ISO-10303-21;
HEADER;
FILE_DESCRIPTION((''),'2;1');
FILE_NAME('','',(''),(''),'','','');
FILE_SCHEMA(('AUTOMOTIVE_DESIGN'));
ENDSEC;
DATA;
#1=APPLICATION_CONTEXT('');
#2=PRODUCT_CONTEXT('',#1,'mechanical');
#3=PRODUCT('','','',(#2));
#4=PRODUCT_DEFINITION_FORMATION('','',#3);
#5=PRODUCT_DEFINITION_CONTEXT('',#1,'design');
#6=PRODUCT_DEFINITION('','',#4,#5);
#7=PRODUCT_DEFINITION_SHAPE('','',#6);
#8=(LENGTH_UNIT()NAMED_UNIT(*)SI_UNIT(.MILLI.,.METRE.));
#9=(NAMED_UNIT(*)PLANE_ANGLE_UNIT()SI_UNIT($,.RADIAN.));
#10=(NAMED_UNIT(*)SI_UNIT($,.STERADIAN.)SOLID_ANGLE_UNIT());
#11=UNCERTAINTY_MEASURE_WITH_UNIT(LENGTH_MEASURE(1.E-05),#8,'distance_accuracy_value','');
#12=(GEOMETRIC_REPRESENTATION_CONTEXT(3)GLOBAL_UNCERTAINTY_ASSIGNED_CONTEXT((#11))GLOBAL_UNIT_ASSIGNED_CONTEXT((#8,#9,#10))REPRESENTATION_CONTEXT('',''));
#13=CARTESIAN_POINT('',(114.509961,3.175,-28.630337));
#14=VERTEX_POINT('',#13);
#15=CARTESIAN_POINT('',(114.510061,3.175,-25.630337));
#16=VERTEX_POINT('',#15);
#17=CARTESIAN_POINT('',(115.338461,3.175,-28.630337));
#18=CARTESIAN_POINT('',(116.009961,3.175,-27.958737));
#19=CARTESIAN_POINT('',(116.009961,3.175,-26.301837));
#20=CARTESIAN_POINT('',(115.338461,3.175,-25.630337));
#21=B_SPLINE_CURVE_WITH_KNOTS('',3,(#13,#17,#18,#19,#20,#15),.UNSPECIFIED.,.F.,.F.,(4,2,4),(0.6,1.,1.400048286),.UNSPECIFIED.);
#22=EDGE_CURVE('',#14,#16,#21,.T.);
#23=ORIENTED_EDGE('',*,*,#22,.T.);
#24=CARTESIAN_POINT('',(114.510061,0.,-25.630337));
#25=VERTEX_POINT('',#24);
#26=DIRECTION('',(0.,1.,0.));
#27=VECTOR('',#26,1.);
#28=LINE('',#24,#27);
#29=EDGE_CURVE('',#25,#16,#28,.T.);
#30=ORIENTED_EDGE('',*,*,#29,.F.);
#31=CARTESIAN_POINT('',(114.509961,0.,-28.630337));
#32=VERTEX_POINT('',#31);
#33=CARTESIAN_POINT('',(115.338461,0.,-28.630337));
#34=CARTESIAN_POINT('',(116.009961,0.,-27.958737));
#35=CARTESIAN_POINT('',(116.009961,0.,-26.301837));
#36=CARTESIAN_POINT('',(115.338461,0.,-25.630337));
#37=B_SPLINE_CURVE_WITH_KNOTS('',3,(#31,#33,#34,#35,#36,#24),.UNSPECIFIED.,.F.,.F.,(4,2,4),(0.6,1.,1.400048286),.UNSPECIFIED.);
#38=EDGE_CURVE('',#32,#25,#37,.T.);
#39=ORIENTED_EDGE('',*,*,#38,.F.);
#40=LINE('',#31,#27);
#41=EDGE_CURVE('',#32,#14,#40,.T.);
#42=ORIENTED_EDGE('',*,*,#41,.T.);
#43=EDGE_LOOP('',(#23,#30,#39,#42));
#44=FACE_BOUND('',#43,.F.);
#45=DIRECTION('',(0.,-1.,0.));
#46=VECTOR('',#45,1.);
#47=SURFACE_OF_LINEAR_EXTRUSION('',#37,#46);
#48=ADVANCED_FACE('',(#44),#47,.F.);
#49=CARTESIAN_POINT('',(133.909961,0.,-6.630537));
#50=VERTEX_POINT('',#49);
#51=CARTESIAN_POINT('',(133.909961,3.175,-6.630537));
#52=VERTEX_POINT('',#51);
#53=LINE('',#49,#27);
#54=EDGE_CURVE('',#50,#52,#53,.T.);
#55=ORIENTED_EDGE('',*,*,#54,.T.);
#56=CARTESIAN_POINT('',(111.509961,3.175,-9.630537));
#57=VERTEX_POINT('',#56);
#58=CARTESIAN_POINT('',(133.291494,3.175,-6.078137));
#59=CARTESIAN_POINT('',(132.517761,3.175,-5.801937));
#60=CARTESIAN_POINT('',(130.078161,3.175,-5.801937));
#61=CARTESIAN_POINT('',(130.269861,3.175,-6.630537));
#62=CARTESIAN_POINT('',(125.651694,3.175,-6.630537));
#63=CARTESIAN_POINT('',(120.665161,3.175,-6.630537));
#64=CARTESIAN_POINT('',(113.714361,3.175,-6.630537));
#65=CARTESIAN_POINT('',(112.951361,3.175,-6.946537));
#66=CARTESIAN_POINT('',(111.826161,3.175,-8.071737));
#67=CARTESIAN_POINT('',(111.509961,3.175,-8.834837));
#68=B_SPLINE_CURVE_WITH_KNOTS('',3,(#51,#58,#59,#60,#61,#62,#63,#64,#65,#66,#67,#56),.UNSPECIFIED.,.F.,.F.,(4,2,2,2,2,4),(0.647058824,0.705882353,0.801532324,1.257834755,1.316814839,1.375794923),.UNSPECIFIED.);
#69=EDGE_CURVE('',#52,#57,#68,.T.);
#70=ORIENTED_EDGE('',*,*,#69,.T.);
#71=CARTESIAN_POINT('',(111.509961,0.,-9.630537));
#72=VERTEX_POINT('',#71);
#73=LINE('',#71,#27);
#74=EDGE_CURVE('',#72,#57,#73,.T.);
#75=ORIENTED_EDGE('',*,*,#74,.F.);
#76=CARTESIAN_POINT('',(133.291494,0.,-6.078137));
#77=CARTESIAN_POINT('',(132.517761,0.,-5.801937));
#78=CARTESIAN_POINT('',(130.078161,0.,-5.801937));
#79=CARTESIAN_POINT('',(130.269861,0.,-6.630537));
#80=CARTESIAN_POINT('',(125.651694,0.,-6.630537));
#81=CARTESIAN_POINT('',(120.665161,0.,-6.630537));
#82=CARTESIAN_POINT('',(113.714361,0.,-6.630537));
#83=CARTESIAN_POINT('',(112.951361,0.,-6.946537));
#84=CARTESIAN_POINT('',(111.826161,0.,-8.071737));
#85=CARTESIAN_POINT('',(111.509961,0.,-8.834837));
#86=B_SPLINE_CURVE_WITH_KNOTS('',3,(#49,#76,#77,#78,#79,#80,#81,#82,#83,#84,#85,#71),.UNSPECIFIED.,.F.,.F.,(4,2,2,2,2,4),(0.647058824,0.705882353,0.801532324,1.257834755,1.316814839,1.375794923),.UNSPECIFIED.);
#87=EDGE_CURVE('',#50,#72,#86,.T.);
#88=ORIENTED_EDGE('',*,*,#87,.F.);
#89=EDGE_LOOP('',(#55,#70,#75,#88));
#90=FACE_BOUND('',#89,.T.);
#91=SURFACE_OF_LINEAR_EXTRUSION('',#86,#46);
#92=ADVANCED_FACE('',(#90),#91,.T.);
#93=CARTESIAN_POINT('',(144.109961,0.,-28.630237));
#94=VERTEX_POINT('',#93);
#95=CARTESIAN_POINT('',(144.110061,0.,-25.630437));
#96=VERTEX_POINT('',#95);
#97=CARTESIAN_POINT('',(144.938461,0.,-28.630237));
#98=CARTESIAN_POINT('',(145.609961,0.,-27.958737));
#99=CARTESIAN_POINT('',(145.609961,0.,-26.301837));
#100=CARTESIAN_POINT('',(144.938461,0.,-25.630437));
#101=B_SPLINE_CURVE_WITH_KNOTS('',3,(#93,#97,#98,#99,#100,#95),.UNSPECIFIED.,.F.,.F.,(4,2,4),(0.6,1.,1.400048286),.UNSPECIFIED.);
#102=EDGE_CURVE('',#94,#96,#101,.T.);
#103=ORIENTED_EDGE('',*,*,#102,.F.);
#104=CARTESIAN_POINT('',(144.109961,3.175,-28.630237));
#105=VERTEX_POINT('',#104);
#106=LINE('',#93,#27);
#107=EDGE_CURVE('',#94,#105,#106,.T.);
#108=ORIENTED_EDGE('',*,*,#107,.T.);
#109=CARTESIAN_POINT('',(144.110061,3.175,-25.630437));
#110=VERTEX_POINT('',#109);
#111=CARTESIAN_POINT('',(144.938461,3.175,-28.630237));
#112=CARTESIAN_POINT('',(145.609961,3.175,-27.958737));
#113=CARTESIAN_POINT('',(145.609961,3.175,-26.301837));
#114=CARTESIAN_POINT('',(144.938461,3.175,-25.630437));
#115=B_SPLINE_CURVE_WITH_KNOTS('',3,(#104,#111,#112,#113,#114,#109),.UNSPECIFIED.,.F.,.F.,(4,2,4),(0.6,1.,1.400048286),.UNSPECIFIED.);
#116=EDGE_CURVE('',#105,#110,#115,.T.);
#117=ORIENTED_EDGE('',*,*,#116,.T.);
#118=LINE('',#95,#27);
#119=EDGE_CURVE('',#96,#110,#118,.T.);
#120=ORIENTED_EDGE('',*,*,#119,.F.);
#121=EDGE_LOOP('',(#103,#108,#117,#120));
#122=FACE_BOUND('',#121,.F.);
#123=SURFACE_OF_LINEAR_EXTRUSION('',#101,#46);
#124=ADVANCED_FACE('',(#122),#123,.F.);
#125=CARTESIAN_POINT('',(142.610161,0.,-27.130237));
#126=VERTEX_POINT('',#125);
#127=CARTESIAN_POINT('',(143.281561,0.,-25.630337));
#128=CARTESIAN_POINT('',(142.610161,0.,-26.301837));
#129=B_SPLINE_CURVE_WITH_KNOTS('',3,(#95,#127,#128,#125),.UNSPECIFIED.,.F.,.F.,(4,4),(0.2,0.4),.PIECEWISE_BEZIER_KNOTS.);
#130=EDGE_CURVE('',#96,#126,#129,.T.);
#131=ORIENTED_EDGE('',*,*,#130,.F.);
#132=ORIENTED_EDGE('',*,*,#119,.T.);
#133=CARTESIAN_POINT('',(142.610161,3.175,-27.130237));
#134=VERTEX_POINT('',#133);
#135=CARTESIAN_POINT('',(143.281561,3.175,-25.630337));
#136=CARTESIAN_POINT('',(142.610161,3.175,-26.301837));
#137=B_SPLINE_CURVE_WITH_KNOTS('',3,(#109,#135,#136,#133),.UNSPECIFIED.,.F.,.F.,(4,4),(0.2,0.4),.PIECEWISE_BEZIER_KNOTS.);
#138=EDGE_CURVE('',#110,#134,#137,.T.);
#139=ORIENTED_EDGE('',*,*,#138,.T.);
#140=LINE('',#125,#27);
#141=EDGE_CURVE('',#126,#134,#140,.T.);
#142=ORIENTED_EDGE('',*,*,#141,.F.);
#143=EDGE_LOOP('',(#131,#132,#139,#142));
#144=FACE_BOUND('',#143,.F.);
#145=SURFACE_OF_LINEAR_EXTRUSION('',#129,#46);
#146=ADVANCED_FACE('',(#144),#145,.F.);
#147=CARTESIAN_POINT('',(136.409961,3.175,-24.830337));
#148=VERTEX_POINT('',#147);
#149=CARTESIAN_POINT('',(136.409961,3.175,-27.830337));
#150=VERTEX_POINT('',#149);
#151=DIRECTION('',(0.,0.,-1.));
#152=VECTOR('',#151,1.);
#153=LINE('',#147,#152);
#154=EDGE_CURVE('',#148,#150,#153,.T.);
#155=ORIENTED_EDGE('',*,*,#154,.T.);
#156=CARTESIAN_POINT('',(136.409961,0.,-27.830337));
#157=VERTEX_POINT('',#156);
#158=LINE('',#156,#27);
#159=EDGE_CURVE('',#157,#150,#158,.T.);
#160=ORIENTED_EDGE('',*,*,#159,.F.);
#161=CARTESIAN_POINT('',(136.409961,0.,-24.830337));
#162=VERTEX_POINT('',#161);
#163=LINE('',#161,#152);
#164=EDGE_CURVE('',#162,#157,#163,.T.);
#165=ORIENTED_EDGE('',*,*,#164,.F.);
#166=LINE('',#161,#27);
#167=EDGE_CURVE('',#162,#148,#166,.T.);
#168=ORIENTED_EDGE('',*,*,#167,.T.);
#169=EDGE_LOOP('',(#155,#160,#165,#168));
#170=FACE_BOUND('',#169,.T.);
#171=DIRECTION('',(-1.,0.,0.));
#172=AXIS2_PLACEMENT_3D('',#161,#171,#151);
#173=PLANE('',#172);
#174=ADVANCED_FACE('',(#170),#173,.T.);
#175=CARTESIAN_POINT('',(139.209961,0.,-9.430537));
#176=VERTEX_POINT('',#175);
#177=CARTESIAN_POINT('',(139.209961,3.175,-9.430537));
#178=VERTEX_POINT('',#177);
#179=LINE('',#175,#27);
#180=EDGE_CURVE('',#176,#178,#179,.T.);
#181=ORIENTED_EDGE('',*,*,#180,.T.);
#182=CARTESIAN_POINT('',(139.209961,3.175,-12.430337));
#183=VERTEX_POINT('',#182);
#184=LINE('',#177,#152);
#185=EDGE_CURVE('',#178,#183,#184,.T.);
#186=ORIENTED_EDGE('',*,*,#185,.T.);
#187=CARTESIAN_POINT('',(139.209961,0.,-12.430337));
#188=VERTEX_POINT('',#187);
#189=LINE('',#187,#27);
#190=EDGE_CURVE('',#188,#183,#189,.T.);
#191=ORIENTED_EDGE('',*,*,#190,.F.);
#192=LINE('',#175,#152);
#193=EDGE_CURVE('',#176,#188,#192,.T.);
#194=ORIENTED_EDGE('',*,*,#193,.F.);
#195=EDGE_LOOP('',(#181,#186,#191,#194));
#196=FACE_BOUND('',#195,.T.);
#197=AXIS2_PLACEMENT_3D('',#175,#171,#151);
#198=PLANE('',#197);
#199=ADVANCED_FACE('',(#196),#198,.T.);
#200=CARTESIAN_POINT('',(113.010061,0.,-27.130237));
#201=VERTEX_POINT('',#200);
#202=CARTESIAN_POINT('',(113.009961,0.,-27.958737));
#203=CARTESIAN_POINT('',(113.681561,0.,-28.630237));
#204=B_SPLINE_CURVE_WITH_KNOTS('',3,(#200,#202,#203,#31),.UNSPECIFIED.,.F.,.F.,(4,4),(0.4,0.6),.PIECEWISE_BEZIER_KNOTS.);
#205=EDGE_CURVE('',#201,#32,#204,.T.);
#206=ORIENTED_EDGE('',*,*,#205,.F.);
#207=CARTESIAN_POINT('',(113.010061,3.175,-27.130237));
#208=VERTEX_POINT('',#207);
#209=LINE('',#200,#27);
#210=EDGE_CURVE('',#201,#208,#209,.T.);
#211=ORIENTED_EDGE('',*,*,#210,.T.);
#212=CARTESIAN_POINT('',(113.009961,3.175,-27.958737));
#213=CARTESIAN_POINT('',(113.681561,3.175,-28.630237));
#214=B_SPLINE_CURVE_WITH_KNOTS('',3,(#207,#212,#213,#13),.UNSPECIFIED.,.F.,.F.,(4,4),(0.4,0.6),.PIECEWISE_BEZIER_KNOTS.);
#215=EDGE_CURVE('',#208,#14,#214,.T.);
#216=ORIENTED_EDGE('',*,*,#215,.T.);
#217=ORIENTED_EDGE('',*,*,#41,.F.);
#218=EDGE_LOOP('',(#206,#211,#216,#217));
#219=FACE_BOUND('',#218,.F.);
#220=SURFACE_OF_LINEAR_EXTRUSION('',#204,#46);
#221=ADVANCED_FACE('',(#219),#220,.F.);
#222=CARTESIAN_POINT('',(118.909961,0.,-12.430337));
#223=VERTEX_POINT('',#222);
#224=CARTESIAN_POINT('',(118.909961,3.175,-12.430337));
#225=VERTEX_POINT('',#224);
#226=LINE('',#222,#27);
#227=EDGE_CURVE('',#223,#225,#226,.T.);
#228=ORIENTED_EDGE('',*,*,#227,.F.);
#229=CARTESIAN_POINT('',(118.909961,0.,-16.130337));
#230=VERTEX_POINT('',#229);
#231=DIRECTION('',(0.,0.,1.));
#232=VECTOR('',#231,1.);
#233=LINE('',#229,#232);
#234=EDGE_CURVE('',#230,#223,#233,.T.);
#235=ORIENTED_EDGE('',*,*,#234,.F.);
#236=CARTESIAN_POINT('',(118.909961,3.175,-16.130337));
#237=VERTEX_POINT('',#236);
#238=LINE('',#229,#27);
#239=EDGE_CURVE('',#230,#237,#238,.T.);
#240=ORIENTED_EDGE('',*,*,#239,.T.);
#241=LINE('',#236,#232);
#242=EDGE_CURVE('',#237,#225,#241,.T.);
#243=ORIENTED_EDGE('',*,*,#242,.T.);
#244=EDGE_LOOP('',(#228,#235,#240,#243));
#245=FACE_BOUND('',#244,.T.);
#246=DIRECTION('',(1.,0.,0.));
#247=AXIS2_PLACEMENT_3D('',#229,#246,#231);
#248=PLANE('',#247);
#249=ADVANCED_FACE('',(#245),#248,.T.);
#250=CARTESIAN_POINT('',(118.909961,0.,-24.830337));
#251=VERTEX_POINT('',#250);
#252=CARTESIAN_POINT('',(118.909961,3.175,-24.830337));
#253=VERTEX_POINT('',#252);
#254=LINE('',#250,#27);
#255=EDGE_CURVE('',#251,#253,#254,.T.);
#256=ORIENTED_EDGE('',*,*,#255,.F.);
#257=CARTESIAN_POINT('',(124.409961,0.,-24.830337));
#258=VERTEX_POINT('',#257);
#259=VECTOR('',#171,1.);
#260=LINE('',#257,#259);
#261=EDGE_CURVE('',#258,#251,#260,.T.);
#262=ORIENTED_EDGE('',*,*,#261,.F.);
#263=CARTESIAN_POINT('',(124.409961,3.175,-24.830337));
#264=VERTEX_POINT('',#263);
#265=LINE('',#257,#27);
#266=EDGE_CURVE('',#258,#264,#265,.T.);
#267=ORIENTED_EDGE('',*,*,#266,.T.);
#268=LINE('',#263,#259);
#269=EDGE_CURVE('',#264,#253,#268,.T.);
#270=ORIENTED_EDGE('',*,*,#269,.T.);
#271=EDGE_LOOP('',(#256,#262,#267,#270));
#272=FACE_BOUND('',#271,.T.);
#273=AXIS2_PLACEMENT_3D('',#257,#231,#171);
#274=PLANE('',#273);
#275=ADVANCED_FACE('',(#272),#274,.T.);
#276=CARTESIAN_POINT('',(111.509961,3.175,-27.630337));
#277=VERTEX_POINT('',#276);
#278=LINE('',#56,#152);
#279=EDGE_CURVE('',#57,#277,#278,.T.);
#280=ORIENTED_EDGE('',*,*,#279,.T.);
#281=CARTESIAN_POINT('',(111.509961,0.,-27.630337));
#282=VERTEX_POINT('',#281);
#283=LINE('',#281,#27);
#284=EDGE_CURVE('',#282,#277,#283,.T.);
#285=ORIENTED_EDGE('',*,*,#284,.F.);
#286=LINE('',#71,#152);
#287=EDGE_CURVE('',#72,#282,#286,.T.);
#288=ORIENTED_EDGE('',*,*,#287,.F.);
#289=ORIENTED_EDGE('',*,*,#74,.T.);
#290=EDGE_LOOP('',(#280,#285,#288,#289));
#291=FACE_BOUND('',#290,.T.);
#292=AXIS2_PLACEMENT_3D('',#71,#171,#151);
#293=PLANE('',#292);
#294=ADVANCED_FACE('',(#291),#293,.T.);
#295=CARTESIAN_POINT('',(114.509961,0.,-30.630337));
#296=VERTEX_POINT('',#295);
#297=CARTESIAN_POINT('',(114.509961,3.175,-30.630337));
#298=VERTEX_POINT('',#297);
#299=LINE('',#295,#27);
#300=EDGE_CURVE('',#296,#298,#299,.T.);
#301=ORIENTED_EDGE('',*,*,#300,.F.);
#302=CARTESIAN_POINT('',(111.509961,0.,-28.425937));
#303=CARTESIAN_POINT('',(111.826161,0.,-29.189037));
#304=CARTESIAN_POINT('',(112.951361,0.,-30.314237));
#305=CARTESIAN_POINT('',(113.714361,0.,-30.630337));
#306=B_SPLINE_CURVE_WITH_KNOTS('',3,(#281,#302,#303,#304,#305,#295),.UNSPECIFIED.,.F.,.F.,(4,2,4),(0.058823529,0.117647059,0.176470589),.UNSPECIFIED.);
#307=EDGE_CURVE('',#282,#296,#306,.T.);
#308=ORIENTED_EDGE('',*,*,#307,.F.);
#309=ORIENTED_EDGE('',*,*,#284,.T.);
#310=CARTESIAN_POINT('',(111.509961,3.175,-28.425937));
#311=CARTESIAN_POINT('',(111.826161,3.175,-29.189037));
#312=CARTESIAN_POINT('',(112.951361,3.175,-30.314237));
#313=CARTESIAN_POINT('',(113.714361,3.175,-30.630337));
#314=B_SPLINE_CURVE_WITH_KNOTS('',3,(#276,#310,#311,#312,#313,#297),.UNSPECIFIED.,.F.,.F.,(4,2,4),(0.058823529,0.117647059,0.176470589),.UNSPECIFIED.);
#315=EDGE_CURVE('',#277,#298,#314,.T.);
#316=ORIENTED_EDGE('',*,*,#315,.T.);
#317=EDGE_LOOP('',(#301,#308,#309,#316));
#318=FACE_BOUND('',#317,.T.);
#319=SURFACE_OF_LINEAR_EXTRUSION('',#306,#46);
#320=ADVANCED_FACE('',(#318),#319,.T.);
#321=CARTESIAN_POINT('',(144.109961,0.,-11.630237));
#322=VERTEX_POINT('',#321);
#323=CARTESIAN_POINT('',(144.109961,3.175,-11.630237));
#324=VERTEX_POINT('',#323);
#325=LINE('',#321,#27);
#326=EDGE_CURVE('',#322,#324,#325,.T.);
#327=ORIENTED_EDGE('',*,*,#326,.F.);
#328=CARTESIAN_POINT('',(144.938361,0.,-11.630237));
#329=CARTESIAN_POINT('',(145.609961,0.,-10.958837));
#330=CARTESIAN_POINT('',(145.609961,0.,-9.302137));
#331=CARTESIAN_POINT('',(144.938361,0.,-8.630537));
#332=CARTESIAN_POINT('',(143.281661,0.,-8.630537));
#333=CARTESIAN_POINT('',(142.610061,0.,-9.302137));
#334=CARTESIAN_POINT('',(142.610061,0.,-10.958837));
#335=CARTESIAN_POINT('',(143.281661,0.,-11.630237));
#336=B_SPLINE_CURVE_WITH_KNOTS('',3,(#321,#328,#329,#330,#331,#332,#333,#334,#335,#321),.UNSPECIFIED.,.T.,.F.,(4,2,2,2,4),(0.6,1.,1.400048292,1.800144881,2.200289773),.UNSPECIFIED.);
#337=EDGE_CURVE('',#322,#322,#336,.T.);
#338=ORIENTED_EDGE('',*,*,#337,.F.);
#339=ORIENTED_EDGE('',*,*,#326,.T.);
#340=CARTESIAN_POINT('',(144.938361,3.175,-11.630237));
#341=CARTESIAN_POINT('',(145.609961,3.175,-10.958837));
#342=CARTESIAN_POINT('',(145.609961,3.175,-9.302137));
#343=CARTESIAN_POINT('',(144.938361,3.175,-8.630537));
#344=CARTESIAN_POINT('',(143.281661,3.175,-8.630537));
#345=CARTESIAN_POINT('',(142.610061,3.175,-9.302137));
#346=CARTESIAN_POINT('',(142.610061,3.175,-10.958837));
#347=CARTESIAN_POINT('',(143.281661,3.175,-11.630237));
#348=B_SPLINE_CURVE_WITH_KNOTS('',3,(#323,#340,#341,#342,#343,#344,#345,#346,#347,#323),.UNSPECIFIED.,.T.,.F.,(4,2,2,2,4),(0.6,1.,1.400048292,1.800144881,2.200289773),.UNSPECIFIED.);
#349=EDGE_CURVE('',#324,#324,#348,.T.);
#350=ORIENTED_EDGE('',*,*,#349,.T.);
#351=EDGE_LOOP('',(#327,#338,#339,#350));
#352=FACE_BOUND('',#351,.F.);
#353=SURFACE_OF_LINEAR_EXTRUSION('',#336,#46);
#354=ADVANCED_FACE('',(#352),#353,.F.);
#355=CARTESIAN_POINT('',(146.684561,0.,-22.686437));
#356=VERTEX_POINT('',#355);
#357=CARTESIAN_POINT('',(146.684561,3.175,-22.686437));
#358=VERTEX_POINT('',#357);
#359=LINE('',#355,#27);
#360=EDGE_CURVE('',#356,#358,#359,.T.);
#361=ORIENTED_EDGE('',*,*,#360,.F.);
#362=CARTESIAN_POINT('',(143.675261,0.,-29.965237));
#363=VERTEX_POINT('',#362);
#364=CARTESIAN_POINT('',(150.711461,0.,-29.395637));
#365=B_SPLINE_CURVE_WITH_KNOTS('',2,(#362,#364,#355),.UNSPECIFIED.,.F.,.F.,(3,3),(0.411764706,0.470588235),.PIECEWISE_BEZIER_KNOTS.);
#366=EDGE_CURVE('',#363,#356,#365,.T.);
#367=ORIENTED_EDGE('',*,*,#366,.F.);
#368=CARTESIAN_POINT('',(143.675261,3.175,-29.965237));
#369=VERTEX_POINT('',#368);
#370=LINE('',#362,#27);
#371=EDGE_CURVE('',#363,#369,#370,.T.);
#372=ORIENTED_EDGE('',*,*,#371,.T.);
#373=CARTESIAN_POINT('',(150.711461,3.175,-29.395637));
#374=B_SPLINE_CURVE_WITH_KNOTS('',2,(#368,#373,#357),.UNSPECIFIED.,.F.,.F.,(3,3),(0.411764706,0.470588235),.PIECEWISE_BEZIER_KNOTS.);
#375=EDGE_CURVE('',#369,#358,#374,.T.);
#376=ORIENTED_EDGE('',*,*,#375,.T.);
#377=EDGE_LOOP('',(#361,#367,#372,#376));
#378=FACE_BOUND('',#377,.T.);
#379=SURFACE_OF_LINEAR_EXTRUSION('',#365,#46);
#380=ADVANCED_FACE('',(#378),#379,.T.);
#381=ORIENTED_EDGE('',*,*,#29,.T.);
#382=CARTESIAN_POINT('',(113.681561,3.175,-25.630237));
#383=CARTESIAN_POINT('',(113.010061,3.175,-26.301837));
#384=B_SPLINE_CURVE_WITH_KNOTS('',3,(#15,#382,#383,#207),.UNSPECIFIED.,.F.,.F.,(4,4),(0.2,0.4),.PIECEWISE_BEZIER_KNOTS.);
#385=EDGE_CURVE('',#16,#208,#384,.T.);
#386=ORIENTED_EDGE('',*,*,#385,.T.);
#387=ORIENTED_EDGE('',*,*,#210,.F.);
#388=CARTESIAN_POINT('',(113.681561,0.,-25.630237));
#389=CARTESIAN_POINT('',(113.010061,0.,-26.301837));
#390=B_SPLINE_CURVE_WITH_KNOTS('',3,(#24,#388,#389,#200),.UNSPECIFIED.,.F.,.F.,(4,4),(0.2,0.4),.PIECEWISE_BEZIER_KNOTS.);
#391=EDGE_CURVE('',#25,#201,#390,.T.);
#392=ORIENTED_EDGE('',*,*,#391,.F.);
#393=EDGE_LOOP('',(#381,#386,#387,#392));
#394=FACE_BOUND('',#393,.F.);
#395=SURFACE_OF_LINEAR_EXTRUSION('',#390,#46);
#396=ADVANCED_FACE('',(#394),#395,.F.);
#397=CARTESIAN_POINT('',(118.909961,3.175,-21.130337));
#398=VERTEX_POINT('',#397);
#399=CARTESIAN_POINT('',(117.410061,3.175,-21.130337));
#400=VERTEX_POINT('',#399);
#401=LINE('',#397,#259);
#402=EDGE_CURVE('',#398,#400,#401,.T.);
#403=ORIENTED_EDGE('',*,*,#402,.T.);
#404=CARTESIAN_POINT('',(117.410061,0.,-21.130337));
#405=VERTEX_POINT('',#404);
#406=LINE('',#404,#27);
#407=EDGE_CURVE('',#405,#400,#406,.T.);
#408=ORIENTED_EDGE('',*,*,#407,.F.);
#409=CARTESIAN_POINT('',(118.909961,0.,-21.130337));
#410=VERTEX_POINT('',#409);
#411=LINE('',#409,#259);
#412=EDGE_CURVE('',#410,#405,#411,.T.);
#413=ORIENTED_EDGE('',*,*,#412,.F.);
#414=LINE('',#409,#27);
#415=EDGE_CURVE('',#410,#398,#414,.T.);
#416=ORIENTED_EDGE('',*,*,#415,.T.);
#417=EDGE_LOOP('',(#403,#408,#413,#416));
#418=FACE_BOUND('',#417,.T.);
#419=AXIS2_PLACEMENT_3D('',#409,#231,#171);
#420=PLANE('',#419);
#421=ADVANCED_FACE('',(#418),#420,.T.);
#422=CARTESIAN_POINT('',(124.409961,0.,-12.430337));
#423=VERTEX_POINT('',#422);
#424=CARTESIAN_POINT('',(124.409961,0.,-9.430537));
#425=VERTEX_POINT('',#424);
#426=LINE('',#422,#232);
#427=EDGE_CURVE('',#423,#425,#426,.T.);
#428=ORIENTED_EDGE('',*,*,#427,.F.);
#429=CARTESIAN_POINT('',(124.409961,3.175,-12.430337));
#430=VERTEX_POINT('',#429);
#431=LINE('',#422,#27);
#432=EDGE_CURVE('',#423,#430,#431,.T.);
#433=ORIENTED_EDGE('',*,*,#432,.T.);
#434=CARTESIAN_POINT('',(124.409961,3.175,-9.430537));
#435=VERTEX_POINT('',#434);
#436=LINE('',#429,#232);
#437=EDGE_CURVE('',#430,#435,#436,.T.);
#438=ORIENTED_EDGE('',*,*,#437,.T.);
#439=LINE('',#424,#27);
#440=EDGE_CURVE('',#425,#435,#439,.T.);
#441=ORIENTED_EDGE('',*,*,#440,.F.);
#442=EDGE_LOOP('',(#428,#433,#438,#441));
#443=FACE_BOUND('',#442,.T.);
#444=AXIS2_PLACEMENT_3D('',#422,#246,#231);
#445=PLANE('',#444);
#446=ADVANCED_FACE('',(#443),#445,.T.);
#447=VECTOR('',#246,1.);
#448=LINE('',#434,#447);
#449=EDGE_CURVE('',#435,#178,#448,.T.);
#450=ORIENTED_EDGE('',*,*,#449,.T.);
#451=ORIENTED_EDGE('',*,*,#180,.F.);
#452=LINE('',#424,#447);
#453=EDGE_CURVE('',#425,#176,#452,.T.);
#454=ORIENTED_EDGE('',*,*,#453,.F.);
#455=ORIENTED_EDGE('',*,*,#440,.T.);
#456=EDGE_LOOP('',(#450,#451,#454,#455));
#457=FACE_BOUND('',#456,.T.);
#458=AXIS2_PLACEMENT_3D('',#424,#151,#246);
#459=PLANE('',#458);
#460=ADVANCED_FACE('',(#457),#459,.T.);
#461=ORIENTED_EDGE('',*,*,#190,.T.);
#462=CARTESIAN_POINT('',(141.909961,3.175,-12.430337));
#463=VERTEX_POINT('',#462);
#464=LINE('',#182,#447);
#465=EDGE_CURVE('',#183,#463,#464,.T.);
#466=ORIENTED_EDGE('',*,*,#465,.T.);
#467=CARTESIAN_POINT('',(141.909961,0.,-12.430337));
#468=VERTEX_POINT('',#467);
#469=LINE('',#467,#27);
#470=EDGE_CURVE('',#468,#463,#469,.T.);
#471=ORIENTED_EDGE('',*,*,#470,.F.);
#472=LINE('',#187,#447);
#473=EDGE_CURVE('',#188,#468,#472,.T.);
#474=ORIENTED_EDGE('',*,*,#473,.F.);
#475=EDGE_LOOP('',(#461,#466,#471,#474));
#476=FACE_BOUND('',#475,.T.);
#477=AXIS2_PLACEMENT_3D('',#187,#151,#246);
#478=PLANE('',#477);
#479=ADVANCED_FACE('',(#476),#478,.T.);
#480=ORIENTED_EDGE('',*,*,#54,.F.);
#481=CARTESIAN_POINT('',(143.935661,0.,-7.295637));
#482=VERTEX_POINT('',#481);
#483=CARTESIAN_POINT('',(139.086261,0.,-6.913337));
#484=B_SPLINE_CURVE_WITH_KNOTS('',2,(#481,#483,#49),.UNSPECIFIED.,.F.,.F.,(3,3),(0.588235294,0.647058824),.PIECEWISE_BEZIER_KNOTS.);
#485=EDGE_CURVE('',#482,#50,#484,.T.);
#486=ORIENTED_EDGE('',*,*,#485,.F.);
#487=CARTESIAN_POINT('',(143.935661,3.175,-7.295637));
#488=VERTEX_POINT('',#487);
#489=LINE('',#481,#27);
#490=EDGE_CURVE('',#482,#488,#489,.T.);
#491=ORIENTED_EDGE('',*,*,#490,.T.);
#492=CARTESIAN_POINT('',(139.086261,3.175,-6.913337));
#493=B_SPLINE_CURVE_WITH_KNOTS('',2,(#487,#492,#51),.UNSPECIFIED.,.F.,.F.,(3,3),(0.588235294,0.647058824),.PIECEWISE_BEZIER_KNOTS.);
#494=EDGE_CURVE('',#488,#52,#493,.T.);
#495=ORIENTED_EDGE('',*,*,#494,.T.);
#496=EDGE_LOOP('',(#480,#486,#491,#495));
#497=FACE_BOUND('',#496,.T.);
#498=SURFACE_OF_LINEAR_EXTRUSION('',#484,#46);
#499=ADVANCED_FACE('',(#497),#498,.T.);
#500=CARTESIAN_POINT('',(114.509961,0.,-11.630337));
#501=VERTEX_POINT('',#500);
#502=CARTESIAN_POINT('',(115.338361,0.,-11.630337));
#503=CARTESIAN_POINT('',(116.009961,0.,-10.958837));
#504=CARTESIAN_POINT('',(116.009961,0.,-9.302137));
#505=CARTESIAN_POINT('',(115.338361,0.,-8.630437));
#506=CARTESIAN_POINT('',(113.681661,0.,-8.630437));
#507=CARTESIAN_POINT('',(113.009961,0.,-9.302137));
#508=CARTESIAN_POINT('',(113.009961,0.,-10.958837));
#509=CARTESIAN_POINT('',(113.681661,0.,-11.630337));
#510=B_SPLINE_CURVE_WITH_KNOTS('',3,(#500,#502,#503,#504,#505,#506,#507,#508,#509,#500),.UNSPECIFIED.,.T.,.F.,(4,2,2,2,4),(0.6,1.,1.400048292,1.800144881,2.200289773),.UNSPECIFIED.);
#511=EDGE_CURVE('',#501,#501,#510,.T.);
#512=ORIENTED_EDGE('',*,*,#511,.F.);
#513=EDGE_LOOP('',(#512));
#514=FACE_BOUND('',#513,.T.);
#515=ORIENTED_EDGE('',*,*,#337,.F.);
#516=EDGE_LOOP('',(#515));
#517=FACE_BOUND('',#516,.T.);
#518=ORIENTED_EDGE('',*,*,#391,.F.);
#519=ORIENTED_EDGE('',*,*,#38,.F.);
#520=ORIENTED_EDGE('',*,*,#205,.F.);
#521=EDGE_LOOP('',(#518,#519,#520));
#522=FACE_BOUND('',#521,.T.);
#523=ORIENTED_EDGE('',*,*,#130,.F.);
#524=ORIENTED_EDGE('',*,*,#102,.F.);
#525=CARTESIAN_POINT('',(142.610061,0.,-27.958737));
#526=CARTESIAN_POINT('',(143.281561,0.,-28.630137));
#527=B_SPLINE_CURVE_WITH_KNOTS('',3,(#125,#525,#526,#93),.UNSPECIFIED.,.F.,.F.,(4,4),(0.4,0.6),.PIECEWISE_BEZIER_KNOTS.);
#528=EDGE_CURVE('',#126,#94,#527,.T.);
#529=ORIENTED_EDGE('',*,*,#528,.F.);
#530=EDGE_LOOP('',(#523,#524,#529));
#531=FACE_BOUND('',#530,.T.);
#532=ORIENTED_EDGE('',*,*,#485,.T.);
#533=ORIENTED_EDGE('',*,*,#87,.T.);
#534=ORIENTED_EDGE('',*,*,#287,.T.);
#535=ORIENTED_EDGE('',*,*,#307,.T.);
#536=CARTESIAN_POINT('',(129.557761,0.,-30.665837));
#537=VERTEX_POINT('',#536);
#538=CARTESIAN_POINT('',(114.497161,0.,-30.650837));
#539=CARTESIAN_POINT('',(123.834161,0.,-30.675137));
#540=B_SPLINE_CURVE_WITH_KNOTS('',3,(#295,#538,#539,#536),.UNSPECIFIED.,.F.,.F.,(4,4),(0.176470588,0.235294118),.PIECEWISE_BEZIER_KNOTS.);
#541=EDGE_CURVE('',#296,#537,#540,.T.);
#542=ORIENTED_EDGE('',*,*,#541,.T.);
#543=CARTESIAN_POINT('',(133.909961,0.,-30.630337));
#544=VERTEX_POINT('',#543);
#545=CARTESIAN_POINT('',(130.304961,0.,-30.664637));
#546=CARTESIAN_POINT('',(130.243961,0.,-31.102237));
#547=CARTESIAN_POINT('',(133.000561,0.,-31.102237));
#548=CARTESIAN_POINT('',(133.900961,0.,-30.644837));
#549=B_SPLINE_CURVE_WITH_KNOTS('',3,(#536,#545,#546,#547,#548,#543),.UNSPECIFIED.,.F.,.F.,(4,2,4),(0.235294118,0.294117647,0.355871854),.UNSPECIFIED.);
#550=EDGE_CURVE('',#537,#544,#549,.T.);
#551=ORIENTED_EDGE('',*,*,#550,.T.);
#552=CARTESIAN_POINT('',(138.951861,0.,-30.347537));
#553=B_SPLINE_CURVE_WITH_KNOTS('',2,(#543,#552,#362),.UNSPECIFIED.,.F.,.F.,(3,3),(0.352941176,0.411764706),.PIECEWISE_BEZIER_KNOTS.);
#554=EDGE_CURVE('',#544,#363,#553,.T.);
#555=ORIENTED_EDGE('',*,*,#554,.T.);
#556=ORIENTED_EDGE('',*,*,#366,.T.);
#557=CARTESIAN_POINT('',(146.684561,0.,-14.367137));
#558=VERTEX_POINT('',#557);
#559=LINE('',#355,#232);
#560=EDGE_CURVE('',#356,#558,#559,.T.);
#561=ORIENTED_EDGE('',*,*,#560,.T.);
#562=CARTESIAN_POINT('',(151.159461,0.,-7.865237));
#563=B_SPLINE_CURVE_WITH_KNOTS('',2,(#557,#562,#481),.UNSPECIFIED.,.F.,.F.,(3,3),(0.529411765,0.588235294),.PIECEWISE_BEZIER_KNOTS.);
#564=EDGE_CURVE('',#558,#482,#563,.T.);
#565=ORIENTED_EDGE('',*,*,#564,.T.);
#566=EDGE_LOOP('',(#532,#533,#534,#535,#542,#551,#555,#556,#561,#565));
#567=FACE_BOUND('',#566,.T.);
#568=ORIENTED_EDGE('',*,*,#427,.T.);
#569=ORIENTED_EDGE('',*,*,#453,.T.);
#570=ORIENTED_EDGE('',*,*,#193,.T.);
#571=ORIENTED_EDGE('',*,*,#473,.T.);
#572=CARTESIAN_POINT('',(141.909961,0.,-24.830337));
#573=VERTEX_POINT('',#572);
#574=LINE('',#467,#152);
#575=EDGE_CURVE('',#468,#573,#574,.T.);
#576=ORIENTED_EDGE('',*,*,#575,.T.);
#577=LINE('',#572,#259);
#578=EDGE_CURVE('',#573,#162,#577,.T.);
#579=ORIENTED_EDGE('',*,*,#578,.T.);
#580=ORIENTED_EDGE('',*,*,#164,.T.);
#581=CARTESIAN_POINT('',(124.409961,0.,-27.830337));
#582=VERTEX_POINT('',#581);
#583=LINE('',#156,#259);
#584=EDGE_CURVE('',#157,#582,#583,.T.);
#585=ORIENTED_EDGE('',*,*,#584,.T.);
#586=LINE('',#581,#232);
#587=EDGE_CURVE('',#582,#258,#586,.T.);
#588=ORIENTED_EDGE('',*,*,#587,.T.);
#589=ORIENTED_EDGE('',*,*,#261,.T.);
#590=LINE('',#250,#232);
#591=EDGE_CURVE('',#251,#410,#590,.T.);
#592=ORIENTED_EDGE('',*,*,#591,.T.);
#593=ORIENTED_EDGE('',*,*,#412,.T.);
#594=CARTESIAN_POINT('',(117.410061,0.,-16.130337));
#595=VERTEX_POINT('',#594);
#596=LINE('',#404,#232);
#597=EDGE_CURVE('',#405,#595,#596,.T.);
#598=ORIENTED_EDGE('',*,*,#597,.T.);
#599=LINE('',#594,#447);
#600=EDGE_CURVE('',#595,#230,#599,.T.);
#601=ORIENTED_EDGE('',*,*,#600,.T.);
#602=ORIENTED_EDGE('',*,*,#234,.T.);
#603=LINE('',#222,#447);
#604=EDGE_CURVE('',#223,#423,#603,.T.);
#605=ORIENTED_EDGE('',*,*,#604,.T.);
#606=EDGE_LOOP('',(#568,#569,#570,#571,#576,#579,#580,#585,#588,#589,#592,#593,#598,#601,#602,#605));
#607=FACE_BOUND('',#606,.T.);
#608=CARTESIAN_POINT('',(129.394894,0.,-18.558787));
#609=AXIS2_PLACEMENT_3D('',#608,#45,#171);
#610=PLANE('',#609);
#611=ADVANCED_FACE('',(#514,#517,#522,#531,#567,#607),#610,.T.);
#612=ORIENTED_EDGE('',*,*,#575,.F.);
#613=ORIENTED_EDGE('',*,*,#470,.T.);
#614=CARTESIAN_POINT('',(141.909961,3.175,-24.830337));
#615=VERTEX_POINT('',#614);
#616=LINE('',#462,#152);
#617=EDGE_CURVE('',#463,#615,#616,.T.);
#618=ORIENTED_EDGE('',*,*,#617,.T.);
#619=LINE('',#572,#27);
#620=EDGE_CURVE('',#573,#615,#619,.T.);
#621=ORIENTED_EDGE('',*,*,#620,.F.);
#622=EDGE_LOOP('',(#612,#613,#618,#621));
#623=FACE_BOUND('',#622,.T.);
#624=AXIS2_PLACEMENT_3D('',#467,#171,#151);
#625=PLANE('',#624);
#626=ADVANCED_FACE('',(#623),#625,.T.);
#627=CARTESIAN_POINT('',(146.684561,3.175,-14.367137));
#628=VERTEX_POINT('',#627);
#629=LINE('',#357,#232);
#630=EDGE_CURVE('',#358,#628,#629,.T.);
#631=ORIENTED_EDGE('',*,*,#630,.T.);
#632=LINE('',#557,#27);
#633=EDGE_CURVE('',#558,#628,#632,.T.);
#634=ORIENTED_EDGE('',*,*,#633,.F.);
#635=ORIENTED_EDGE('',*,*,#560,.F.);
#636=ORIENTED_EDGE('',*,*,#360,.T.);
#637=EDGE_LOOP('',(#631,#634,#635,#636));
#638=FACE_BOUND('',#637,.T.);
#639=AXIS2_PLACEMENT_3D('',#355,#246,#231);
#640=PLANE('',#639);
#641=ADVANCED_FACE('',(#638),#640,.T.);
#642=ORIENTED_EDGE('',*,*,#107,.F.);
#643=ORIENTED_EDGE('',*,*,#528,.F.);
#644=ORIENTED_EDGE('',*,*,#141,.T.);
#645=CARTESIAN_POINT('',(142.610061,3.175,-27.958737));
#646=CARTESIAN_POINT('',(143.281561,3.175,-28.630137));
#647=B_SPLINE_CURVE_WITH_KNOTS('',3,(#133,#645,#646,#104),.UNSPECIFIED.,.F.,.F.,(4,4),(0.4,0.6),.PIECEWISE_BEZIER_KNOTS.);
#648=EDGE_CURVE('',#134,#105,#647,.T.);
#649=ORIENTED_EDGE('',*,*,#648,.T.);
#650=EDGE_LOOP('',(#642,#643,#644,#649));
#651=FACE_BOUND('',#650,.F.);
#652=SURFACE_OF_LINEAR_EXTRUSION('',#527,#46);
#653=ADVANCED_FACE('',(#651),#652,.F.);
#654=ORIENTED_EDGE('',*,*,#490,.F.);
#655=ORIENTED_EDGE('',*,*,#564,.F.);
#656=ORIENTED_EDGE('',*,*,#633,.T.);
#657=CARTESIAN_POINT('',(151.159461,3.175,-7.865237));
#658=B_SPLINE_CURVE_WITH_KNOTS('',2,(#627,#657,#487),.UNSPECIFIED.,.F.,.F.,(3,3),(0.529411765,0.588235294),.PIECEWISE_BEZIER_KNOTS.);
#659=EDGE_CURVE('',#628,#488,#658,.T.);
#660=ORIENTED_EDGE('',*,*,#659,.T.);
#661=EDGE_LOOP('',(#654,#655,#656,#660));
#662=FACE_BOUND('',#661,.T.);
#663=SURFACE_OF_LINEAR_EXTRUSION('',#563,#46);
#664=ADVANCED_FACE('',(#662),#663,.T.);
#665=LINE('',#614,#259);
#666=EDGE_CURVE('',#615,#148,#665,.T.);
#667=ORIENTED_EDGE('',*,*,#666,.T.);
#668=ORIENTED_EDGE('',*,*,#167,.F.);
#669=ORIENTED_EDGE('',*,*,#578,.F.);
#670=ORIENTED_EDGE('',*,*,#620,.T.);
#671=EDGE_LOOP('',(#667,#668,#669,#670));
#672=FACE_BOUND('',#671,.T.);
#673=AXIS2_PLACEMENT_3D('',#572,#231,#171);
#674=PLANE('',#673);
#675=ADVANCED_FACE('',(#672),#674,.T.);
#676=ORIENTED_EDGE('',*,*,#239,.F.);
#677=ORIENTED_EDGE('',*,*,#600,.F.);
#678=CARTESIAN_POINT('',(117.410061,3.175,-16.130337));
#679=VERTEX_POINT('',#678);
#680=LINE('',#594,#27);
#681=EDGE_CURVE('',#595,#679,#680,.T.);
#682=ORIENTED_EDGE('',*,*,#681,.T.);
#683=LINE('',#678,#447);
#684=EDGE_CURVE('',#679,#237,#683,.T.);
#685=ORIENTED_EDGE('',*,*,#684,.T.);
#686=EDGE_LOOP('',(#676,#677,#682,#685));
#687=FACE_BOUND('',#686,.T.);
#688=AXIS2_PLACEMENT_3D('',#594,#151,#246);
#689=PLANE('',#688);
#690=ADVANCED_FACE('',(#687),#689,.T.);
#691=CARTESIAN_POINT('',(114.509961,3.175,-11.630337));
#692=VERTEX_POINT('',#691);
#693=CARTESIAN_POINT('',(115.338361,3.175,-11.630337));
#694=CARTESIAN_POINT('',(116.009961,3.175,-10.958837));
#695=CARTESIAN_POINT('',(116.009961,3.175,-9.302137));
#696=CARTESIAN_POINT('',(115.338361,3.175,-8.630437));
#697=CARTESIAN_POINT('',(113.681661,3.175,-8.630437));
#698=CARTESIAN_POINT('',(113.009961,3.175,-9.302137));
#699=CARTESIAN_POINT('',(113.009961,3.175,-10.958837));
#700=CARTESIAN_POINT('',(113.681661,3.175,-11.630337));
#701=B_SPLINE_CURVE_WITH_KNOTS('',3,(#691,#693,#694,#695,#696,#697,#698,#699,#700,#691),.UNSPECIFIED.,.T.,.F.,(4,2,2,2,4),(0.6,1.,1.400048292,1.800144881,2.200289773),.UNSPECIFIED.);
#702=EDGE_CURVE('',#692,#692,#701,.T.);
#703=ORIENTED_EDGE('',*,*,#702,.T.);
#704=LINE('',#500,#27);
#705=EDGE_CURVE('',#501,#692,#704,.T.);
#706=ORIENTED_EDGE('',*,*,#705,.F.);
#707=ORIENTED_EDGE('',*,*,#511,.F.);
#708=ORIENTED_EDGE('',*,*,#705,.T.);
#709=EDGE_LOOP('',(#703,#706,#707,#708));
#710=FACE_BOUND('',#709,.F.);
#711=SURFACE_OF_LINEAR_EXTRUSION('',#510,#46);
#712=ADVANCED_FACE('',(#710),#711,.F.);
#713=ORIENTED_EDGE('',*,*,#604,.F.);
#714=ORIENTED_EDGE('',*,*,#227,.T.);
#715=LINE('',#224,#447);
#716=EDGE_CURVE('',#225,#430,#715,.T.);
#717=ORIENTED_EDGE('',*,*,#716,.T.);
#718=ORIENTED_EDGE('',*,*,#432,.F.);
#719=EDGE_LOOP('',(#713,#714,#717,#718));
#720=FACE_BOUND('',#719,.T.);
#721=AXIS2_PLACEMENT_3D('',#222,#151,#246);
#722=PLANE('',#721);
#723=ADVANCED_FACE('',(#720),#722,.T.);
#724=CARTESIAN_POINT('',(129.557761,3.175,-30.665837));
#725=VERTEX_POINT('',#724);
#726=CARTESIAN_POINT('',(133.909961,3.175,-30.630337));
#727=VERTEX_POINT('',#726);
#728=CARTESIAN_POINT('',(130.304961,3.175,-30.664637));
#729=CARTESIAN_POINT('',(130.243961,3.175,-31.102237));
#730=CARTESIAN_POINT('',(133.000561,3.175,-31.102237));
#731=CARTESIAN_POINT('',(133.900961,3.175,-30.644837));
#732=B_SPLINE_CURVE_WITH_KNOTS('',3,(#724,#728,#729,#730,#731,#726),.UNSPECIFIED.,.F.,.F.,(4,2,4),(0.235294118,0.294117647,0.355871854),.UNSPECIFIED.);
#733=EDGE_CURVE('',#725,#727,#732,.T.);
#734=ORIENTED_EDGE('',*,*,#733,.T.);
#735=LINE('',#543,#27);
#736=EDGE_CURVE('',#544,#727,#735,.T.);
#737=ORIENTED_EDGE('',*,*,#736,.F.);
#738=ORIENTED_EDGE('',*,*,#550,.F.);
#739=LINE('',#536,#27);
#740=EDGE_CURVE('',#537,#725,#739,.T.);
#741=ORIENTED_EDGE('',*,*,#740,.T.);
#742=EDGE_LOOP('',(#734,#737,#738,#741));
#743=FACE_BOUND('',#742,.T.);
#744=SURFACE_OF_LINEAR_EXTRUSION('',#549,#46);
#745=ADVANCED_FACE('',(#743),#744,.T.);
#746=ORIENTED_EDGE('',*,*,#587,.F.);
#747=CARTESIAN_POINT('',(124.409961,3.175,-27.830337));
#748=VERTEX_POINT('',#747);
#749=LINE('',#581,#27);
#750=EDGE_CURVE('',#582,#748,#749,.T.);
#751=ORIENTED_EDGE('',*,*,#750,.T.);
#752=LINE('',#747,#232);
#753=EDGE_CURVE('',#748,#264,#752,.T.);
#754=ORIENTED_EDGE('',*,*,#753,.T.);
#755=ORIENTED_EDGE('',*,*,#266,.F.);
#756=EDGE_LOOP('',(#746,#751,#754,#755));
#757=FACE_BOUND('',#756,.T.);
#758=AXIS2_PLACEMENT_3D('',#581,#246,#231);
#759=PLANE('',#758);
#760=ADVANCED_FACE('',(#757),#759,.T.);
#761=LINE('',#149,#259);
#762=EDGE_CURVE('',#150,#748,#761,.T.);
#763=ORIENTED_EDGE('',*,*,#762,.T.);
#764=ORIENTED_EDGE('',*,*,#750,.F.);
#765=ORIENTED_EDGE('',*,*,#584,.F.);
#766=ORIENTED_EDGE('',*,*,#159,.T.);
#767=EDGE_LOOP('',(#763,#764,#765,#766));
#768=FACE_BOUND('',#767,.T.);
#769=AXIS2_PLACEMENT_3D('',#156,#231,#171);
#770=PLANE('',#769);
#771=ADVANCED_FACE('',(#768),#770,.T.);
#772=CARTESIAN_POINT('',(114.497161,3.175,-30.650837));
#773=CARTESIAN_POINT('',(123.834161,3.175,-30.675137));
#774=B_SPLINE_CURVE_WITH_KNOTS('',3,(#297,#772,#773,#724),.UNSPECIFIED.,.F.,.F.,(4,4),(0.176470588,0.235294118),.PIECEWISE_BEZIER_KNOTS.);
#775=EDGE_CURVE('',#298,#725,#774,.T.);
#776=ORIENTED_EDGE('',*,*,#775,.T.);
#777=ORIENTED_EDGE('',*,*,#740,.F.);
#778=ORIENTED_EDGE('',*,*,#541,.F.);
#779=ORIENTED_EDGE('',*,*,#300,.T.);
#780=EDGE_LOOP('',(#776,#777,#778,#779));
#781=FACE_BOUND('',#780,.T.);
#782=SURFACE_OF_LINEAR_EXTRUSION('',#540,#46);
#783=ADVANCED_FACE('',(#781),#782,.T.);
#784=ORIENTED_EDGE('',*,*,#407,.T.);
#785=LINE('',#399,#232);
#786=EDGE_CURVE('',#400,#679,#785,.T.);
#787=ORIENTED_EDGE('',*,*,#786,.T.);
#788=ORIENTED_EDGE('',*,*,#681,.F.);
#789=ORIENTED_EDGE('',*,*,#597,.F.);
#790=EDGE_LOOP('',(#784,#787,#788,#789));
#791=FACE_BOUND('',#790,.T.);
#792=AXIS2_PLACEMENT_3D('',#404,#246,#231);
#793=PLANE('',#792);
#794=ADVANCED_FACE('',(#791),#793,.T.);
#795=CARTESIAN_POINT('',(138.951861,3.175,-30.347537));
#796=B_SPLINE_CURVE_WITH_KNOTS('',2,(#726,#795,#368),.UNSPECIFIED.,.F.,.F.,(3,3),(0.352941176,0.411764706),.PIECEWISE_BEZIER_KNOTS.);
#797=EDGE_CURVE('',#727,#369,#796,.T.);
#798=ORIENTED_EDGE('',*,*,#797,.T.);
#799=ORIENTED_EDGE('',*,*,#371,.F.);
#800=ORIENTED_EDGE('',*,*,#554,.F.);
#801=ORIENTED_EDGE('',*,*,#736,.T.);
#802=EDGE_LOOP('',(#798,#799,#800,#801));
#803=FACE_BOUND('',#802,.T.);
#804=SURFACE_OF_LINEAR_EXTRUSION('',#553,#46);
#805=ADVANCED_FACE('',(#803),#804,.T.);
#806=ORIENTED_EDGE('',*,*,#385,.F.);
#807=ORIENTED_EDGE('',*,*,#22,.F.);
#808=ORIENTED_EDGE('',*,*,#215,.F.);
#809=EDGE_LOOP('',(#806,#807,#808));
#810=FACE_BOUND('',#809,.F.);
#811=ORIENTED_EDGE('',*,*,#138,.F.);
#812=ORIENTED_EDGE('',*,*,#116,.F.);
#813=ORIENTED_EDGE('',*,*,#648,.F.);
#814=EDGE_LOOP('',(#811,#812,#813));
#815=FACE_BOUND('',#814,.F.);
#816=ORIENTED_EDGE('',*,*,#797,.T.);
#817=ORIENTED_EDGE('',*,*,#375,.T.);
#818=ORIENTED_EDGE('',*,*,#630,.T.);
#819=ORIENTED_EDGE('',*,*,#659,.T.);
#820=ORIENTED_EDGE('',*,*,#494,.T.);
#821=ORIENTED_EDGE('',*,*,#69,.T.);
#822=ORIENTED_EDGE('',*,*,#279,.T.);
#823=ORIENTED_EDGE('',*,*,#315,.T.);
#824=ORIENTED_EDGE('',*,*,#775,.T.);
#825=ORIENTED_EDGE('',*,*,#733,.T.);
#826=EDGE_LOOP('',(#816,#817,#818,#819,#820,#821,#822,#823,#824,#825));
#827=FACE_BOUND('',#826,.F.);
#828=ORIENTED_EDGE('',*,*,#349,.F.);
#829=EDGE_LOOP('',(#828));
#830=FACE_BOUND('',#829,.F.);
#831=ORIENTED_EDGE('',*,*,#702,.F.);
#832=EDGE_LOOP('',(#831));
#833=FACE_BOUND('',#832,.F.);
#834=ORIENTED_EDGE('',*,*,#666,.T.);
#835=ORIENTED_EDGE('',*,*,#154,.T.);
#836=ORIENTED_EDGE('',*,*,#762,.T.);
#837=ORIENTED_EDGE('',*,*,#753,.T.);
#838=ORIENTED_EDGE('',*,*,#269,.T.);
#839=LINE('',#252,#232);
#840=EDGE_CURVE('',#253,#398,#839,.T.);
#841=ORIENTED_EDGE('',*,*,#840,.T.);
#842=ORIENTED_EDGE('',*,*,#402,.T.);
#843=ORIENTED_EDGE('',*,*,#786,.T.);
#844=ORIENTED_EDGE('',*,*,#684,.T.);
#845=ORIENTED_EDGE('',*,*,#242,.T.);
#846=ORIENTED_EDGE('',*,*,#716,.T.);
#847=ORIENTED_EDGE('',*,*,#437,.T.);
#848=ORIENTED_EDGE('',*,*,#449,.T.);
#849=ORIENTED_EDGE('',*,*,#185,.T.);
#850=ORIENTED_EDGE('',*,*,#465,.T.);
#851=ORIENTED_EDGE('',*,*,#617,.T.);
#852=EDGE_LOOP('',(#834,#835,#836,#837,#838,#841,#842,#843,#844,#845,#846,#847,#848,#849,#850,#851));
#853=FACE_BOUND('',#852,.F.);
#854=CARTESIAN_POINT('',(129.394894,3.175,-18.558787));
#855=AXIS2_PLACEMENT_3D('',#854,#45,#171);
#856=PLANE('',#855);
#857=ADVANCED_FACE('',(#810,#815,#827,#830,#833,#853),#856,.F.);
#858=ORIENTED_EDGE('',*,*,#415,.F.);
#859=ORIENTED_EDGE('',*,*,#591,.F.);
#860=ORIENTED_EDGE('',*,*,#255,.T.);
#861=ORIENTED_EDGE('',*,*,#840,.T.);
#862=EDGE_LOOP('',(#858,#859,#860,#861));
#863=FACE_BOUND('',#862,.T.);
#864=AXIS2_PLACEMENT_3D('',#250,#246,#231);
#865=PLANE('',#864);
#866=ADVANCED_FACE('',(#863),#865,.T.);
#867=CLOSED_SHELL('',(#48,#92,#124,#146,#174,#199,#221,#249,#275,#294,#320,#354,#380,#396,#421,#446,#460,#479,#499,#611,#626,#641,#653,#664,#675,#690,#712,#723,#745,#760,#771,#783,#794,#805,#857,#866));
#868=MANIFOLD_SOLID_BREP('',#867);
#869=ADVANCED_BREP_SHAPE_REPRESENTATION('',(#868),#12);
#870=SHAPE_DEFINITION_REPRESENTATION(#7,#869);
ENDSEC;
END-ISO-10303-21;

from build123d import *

# Parameters (mm, degrees)
BOSS_EXTRUDE1_DEPTH = 3.175


with BuildPart() as part:
    # Sketch1 → Boss-Extrude1 (new body)
    with BuildSketch(Plane(origin=(0, 0, 0), x_dir=(1, 0, 0), z_dir=(0, 1, 0))):
        with BuildLine():
            Line((111.509960584, 9.630537226), (111.509960584, 27.630337226))
            add(Edge.make_bspline(
                [(111.509960584, 27.630337226), (111.509960584, 28.425937226), (111.826160584, 29.189037226), (112.388760584, 29.751637226)],
                knots=[0.058823529, 0.058823529, 0.058823529, 0.058823529, 0.117647059, 0.117647059, 0.117647059, 0.117647059], degree=3))
            add(Edge.make_bspline(
                [(112.388760584, 29.751637226), (112.951360584, 30.314237226), (113.714360584, 30.630337226), (114.509960584, 30.630337226)],
                knots=[0.117647059, 0.117647059, 0.117647059, 0.117647059, 0.176470588, 0.176470588, 0.176470588, 0.176470588], degree=3))
            add(Edge.make_bspline(
                [(114.509960584, 30.630337226), (114.497160584, 30.650837226), (123.834160584, 30.675137226), (129.557760584, 30.665837226)],
                knots=[0.176470588, 0.176470588, 0.176470588, 0.176470588, 0.235294118, 0.235294118, 0.235294118, 0.235294118], degree=3))
            add(Edge.make_bspline(
                [(129.557760584, 30.665837226), (130.304960584, 30.664637226), (130.243960584, 31.102237226), (131.588760584, 31.102237226)],
                knots=[0.235294118, 0.235294118, 0.235294118, 0.235294118, 0.294117647, 0.294117647, 0.294117647, 0.294117647], degree=3))
            add(Edge.make_bspline(
                [(131.588760584, 31.102237226), (133.000560584, 31.102237226), (133.900960584, 30.644837226), (133.909960584, 30.630337226)],
                knots=[0.294117647, 0.294117647, 0.294117647, 0.294117647, 0.352941176, 0.352941176, 0.352941176, 0.352941176], degree=3))
            add(Edge.make_bspline(
                [(133.909960584, 30.630337226), (138.951860584, 30.347537226), (143.675260584, 29.965237226)],
                knots=[0.352941176, 0.352941176, 0.352941176, 0.411764706, 0.411764706, 0.411764706], degree=2))
            add(Edge.make_bspline(
                [(143.675260584, 29.965237226), (150.711460584, 29.395637226), (146.684560584, 22.686437226)],
                knots=[0.411764706, 0.411764706, 0.411764706, 0.470588235, 0.470588235, 0.470588235], degree=2))
            Line((146.684560584, 22.686437226), (146.684560584, 14.367137226))
            add(Edge.make_bspline(
                [(146.684560584, 14.367137226), (151.159460584, 7.865237226), (143.935660584, 7.295637226)],
                knots=[0.529411765, 0.529411765, 0.529411765, 0.588235294, 0.588235294, 0.588235294], degree=2))
            add(Edge.make_bspline(
                [(143.935660584, 7.295637226), (139.086260584, 6.913337226), (133.909960584, 6.630537226)],
                knots=[0.588235294, 0.588235294, 0.588235294, 0.647058824, 0.647058824, 0.647058824], degree=2))
            add(Edge.make_bspline(
                [(133.909960584, 6.630537226), (132.982260584, 5.801937226), (131.588760584, 5.801937226)],
                knots=[0.647058824, 0.647058824, 0.647058824, 0.705882353, 0.705882353, 0.705882353], degree=2))
            add(Edge.make_bspline(
                [(131.588760584, 5.801937226), (130.078160584, 5.801937226), (130.269860584, 6.630537226), (129.469560584, 6.630537226)],
                knots=[0.705882353, 0.705882353, 0.705882353, 0.705882353, 0.764705882, 0.764705882, 0.764705882, 0.764705882], degree=3))
            add(Edge.make_bspline(
                [(129.469560584, 6.630537226), (123.742760584, 6.630537226), (114.509960584, 6.630537226)],
                knots=[0.764705882, 0.764705882, 0.764705882, 0.823529412, 0.823529412, 0.823529412], degree=2))
            add(Edge.make_bspline(
                [(114.509960584, 6.630537226), (113.714360584, 6.630537226), (112.951360584, 6.946537226), (112.388760584, 7.509137226)],
                knots=[0.823529412, 0.823529412, 0.823529412, 0.823529412, 0.882352941, 0.882352941, 0.882352941, 0.882352941], degree=3))
            add(Edge.make_bspline(
                [(112.388760584, 7.509137226), (111.826160584, 8.071737226), (111.509960584, 8.834837226), (111.509960584, 9.630537226)],
                knots=[0.882352941, 0.882352941, 0.882352941, 0.882352941, 1, 1, 1, 1], degree=3))
        make_face()
        Polygon((117.410060584, 16.130337226), (118.909960584, 16.130337226), (118.909960584, 12.430337226), (124.409960584, 12.430337226), (124.409960584, 9.430537226), (139.209960584, 9.430537226), (139.209960584, 12.430337226), (141.909960584, 12.430337226), (141.909960584, 24.830337226), (136.409960584, 24.830337226), (136.409960584, 27.830337226), (124.409960584, 27.830337226), (124.409960584, 24.830337226), (118.909960584, 24.830337226), (118.909960584, 21.130337226), (117.410060584, 21.130337226), align=None, mode=Mode.SUBTRACT)
        with BuildLine():
            add(Edge.make_bspline(
                [(116.009960584, 27.130337226), (116.009960584, 26.301837226), (115.338460584, 25.630337226), (114.510060584, 25.630337226)],
                knots=[0, 0, 0, 0, 0.2, 0.2, 0.2, 0.2], degree=3))
            add(Edge.make_bspline(
                [(114.510060584, 25.630337226), (113.681560584, 25.630237226), (113.010060584, 26.301837226), (113.010060584, 27.130237226)],
                knots=[0.2, 0.2, 0.2, 0.2, 0.4, 0.4, 0.4, 0.4], degree=3))
            add(Edge.make_bspline(
                [(113.010060584, 27.130237226), (113.009960584, 27.958737226), (113.681560584, 28.630237226), (114.509960584, 28.630337226)],
                knots=[0.4, 0.4, 0.4, 0.4, 0.6, 0.6, 0.6, 0.6], degree=3))
            add(Edge.make_bspline(
                [(114.509960584, 28.630337226), (115.338460584, 28.630337226), (116.009960584, 27.958737226), (116.009960584, 27.130337226)],
                knots=[0.6, 0.6, 0.6, 0.6, 1, 1, 1, 1], degree=3))
        make_face(mode=Mode.SUBTRACT)
        with BuildLine():
            add(Edge.make_bspline(
                [(145.609960584, 10.130537226), (145.609960584, 9.302137226), (144.938360584, 8.630537226), (144.110060584, 8.630537226)],
                knots=[0, 0, 0, 0, 0.2, 0.2, 0.2, 0.2], degree=3))
            add(Edge.make_bspline(
                [(144.110060584, 8.630537226), (143.281660584, 8.630537226), (142.610060584, 9.302137226), (142.610060584, 10.130437226)],
                knots=[0.2, 0.2, 0.2, 0.2, 0.4, 0.4, 0.4, 0.4], degree=3))
            add(Edge.make_bspline(
                [(142.610060584, 10.130437226), (142.610060584, 10.958837226), (143.281660584, 11.630237226), (144.109960584, 11.630237226)],
                knots=[0.4, 0.4, 0.4, 0.4, 0.6, 0.6, 0.6, 0.6], degree=3))
            add(Edge.make_bspline(
                [(144.109960584, 11.630237226), (144.938360584, 11.630237226), (145.609960584, 10.958837226), (145.609960584, 10.130537226)],
                knots=[0.6, 0.6, 0.6, 0.6, 1, 1, 1, 1], degree=3))
        make_face(mode=Mode.SUBTRACT)
        with BuildLine():
            add(Edge.make_bspline(
                [(116.009960584, 10.130537226), (116.009960584, 9.302137226), (115.338360584, 8.630437226), (114.510060584, 8.630437226)],
                knots=[0, 0, 0, 0, 0.2, 0.2, 0.2, 0.2], degree=3))
            add(Edge.make_bspline(
                [(114.510060584, 8.630437226), (113.681660584, 8.630437226), (113.009960584, 9.302137226), (113.009960584, 10.130437226)],
                knots=[0.2, 0.2, 0.2, 0.2, 0.4, 0.4, 0.4, 0.4], degree=3))
            add(Edge.make_bspline(
                [(113.009960584, 10.130437226), (113.009960584, 10.958837226), (113.681660584, 11.630337226), (114.509960584, 11.630337226)],
                knots=[0.4, 0.4, 0.4, 0.4, 0.6, 0.6, 0.6, 0.6], degree=3))
            add(Edge.make_bspline(
                [(114.509960584, 11.630337226), (115.338360584, 11.630337226), (116.009960584, 10.958837226), (116.009960584, 10.130537226)],
                knots=[0.6, 0.6, 0.6, 0.6, 1, 1, 1, 1], degree=3))
        make_face(mode=Mode.SUBTRACT)
        with BuildLine():
            add(Edge.make_bspline(
                [(145.609960584, 27.130337226), (145.609960584, 26.301837226), (144.938460584, 25.630437226), (144.110060584, 25.630437226)],
                knots=[0, 0, 0, 0, 0.2, 0.2, 0.2, 0.2], degree=3))
            add(Edge.make_bspline(
                [(144.110060584, 25.630437226), (143.281560584, 25.630337226), (142.610160584, 26.301837226), (142.610160584, 27.130237226)],
                knots=[0.2, 0.2, 0.2, 0.2, 0.4, 0.4, 0.4, 0.4], degree=3))
            add(Edge.make_bspline(
                [(142.610160584, 27.130237226), (142.610060584, 27.958737226), (143.281560584, 28.630137226), (144.109960584, 28.630237226)],
                knots=[0.4, 0.4, 0.4, 0.4, 0.6, 0.6, 0.6, 0.6], degree=3))
            add(Edge.make_bspline(
                [(144.109960584, 28.630237226), (144.938460584, 28.630237226), (145.609960584, 27.958737226), (145.609960584, 27.130337226)],
                knots=[0.6, 0.6, 0.6, 0.6, 1, 1, 1, 1], degree=3))
        make_face(mode=Mode.SUBTRACT)
    extrude(amount=BOSS_EXTRUDE1_DEPTH)


solid = part.part
